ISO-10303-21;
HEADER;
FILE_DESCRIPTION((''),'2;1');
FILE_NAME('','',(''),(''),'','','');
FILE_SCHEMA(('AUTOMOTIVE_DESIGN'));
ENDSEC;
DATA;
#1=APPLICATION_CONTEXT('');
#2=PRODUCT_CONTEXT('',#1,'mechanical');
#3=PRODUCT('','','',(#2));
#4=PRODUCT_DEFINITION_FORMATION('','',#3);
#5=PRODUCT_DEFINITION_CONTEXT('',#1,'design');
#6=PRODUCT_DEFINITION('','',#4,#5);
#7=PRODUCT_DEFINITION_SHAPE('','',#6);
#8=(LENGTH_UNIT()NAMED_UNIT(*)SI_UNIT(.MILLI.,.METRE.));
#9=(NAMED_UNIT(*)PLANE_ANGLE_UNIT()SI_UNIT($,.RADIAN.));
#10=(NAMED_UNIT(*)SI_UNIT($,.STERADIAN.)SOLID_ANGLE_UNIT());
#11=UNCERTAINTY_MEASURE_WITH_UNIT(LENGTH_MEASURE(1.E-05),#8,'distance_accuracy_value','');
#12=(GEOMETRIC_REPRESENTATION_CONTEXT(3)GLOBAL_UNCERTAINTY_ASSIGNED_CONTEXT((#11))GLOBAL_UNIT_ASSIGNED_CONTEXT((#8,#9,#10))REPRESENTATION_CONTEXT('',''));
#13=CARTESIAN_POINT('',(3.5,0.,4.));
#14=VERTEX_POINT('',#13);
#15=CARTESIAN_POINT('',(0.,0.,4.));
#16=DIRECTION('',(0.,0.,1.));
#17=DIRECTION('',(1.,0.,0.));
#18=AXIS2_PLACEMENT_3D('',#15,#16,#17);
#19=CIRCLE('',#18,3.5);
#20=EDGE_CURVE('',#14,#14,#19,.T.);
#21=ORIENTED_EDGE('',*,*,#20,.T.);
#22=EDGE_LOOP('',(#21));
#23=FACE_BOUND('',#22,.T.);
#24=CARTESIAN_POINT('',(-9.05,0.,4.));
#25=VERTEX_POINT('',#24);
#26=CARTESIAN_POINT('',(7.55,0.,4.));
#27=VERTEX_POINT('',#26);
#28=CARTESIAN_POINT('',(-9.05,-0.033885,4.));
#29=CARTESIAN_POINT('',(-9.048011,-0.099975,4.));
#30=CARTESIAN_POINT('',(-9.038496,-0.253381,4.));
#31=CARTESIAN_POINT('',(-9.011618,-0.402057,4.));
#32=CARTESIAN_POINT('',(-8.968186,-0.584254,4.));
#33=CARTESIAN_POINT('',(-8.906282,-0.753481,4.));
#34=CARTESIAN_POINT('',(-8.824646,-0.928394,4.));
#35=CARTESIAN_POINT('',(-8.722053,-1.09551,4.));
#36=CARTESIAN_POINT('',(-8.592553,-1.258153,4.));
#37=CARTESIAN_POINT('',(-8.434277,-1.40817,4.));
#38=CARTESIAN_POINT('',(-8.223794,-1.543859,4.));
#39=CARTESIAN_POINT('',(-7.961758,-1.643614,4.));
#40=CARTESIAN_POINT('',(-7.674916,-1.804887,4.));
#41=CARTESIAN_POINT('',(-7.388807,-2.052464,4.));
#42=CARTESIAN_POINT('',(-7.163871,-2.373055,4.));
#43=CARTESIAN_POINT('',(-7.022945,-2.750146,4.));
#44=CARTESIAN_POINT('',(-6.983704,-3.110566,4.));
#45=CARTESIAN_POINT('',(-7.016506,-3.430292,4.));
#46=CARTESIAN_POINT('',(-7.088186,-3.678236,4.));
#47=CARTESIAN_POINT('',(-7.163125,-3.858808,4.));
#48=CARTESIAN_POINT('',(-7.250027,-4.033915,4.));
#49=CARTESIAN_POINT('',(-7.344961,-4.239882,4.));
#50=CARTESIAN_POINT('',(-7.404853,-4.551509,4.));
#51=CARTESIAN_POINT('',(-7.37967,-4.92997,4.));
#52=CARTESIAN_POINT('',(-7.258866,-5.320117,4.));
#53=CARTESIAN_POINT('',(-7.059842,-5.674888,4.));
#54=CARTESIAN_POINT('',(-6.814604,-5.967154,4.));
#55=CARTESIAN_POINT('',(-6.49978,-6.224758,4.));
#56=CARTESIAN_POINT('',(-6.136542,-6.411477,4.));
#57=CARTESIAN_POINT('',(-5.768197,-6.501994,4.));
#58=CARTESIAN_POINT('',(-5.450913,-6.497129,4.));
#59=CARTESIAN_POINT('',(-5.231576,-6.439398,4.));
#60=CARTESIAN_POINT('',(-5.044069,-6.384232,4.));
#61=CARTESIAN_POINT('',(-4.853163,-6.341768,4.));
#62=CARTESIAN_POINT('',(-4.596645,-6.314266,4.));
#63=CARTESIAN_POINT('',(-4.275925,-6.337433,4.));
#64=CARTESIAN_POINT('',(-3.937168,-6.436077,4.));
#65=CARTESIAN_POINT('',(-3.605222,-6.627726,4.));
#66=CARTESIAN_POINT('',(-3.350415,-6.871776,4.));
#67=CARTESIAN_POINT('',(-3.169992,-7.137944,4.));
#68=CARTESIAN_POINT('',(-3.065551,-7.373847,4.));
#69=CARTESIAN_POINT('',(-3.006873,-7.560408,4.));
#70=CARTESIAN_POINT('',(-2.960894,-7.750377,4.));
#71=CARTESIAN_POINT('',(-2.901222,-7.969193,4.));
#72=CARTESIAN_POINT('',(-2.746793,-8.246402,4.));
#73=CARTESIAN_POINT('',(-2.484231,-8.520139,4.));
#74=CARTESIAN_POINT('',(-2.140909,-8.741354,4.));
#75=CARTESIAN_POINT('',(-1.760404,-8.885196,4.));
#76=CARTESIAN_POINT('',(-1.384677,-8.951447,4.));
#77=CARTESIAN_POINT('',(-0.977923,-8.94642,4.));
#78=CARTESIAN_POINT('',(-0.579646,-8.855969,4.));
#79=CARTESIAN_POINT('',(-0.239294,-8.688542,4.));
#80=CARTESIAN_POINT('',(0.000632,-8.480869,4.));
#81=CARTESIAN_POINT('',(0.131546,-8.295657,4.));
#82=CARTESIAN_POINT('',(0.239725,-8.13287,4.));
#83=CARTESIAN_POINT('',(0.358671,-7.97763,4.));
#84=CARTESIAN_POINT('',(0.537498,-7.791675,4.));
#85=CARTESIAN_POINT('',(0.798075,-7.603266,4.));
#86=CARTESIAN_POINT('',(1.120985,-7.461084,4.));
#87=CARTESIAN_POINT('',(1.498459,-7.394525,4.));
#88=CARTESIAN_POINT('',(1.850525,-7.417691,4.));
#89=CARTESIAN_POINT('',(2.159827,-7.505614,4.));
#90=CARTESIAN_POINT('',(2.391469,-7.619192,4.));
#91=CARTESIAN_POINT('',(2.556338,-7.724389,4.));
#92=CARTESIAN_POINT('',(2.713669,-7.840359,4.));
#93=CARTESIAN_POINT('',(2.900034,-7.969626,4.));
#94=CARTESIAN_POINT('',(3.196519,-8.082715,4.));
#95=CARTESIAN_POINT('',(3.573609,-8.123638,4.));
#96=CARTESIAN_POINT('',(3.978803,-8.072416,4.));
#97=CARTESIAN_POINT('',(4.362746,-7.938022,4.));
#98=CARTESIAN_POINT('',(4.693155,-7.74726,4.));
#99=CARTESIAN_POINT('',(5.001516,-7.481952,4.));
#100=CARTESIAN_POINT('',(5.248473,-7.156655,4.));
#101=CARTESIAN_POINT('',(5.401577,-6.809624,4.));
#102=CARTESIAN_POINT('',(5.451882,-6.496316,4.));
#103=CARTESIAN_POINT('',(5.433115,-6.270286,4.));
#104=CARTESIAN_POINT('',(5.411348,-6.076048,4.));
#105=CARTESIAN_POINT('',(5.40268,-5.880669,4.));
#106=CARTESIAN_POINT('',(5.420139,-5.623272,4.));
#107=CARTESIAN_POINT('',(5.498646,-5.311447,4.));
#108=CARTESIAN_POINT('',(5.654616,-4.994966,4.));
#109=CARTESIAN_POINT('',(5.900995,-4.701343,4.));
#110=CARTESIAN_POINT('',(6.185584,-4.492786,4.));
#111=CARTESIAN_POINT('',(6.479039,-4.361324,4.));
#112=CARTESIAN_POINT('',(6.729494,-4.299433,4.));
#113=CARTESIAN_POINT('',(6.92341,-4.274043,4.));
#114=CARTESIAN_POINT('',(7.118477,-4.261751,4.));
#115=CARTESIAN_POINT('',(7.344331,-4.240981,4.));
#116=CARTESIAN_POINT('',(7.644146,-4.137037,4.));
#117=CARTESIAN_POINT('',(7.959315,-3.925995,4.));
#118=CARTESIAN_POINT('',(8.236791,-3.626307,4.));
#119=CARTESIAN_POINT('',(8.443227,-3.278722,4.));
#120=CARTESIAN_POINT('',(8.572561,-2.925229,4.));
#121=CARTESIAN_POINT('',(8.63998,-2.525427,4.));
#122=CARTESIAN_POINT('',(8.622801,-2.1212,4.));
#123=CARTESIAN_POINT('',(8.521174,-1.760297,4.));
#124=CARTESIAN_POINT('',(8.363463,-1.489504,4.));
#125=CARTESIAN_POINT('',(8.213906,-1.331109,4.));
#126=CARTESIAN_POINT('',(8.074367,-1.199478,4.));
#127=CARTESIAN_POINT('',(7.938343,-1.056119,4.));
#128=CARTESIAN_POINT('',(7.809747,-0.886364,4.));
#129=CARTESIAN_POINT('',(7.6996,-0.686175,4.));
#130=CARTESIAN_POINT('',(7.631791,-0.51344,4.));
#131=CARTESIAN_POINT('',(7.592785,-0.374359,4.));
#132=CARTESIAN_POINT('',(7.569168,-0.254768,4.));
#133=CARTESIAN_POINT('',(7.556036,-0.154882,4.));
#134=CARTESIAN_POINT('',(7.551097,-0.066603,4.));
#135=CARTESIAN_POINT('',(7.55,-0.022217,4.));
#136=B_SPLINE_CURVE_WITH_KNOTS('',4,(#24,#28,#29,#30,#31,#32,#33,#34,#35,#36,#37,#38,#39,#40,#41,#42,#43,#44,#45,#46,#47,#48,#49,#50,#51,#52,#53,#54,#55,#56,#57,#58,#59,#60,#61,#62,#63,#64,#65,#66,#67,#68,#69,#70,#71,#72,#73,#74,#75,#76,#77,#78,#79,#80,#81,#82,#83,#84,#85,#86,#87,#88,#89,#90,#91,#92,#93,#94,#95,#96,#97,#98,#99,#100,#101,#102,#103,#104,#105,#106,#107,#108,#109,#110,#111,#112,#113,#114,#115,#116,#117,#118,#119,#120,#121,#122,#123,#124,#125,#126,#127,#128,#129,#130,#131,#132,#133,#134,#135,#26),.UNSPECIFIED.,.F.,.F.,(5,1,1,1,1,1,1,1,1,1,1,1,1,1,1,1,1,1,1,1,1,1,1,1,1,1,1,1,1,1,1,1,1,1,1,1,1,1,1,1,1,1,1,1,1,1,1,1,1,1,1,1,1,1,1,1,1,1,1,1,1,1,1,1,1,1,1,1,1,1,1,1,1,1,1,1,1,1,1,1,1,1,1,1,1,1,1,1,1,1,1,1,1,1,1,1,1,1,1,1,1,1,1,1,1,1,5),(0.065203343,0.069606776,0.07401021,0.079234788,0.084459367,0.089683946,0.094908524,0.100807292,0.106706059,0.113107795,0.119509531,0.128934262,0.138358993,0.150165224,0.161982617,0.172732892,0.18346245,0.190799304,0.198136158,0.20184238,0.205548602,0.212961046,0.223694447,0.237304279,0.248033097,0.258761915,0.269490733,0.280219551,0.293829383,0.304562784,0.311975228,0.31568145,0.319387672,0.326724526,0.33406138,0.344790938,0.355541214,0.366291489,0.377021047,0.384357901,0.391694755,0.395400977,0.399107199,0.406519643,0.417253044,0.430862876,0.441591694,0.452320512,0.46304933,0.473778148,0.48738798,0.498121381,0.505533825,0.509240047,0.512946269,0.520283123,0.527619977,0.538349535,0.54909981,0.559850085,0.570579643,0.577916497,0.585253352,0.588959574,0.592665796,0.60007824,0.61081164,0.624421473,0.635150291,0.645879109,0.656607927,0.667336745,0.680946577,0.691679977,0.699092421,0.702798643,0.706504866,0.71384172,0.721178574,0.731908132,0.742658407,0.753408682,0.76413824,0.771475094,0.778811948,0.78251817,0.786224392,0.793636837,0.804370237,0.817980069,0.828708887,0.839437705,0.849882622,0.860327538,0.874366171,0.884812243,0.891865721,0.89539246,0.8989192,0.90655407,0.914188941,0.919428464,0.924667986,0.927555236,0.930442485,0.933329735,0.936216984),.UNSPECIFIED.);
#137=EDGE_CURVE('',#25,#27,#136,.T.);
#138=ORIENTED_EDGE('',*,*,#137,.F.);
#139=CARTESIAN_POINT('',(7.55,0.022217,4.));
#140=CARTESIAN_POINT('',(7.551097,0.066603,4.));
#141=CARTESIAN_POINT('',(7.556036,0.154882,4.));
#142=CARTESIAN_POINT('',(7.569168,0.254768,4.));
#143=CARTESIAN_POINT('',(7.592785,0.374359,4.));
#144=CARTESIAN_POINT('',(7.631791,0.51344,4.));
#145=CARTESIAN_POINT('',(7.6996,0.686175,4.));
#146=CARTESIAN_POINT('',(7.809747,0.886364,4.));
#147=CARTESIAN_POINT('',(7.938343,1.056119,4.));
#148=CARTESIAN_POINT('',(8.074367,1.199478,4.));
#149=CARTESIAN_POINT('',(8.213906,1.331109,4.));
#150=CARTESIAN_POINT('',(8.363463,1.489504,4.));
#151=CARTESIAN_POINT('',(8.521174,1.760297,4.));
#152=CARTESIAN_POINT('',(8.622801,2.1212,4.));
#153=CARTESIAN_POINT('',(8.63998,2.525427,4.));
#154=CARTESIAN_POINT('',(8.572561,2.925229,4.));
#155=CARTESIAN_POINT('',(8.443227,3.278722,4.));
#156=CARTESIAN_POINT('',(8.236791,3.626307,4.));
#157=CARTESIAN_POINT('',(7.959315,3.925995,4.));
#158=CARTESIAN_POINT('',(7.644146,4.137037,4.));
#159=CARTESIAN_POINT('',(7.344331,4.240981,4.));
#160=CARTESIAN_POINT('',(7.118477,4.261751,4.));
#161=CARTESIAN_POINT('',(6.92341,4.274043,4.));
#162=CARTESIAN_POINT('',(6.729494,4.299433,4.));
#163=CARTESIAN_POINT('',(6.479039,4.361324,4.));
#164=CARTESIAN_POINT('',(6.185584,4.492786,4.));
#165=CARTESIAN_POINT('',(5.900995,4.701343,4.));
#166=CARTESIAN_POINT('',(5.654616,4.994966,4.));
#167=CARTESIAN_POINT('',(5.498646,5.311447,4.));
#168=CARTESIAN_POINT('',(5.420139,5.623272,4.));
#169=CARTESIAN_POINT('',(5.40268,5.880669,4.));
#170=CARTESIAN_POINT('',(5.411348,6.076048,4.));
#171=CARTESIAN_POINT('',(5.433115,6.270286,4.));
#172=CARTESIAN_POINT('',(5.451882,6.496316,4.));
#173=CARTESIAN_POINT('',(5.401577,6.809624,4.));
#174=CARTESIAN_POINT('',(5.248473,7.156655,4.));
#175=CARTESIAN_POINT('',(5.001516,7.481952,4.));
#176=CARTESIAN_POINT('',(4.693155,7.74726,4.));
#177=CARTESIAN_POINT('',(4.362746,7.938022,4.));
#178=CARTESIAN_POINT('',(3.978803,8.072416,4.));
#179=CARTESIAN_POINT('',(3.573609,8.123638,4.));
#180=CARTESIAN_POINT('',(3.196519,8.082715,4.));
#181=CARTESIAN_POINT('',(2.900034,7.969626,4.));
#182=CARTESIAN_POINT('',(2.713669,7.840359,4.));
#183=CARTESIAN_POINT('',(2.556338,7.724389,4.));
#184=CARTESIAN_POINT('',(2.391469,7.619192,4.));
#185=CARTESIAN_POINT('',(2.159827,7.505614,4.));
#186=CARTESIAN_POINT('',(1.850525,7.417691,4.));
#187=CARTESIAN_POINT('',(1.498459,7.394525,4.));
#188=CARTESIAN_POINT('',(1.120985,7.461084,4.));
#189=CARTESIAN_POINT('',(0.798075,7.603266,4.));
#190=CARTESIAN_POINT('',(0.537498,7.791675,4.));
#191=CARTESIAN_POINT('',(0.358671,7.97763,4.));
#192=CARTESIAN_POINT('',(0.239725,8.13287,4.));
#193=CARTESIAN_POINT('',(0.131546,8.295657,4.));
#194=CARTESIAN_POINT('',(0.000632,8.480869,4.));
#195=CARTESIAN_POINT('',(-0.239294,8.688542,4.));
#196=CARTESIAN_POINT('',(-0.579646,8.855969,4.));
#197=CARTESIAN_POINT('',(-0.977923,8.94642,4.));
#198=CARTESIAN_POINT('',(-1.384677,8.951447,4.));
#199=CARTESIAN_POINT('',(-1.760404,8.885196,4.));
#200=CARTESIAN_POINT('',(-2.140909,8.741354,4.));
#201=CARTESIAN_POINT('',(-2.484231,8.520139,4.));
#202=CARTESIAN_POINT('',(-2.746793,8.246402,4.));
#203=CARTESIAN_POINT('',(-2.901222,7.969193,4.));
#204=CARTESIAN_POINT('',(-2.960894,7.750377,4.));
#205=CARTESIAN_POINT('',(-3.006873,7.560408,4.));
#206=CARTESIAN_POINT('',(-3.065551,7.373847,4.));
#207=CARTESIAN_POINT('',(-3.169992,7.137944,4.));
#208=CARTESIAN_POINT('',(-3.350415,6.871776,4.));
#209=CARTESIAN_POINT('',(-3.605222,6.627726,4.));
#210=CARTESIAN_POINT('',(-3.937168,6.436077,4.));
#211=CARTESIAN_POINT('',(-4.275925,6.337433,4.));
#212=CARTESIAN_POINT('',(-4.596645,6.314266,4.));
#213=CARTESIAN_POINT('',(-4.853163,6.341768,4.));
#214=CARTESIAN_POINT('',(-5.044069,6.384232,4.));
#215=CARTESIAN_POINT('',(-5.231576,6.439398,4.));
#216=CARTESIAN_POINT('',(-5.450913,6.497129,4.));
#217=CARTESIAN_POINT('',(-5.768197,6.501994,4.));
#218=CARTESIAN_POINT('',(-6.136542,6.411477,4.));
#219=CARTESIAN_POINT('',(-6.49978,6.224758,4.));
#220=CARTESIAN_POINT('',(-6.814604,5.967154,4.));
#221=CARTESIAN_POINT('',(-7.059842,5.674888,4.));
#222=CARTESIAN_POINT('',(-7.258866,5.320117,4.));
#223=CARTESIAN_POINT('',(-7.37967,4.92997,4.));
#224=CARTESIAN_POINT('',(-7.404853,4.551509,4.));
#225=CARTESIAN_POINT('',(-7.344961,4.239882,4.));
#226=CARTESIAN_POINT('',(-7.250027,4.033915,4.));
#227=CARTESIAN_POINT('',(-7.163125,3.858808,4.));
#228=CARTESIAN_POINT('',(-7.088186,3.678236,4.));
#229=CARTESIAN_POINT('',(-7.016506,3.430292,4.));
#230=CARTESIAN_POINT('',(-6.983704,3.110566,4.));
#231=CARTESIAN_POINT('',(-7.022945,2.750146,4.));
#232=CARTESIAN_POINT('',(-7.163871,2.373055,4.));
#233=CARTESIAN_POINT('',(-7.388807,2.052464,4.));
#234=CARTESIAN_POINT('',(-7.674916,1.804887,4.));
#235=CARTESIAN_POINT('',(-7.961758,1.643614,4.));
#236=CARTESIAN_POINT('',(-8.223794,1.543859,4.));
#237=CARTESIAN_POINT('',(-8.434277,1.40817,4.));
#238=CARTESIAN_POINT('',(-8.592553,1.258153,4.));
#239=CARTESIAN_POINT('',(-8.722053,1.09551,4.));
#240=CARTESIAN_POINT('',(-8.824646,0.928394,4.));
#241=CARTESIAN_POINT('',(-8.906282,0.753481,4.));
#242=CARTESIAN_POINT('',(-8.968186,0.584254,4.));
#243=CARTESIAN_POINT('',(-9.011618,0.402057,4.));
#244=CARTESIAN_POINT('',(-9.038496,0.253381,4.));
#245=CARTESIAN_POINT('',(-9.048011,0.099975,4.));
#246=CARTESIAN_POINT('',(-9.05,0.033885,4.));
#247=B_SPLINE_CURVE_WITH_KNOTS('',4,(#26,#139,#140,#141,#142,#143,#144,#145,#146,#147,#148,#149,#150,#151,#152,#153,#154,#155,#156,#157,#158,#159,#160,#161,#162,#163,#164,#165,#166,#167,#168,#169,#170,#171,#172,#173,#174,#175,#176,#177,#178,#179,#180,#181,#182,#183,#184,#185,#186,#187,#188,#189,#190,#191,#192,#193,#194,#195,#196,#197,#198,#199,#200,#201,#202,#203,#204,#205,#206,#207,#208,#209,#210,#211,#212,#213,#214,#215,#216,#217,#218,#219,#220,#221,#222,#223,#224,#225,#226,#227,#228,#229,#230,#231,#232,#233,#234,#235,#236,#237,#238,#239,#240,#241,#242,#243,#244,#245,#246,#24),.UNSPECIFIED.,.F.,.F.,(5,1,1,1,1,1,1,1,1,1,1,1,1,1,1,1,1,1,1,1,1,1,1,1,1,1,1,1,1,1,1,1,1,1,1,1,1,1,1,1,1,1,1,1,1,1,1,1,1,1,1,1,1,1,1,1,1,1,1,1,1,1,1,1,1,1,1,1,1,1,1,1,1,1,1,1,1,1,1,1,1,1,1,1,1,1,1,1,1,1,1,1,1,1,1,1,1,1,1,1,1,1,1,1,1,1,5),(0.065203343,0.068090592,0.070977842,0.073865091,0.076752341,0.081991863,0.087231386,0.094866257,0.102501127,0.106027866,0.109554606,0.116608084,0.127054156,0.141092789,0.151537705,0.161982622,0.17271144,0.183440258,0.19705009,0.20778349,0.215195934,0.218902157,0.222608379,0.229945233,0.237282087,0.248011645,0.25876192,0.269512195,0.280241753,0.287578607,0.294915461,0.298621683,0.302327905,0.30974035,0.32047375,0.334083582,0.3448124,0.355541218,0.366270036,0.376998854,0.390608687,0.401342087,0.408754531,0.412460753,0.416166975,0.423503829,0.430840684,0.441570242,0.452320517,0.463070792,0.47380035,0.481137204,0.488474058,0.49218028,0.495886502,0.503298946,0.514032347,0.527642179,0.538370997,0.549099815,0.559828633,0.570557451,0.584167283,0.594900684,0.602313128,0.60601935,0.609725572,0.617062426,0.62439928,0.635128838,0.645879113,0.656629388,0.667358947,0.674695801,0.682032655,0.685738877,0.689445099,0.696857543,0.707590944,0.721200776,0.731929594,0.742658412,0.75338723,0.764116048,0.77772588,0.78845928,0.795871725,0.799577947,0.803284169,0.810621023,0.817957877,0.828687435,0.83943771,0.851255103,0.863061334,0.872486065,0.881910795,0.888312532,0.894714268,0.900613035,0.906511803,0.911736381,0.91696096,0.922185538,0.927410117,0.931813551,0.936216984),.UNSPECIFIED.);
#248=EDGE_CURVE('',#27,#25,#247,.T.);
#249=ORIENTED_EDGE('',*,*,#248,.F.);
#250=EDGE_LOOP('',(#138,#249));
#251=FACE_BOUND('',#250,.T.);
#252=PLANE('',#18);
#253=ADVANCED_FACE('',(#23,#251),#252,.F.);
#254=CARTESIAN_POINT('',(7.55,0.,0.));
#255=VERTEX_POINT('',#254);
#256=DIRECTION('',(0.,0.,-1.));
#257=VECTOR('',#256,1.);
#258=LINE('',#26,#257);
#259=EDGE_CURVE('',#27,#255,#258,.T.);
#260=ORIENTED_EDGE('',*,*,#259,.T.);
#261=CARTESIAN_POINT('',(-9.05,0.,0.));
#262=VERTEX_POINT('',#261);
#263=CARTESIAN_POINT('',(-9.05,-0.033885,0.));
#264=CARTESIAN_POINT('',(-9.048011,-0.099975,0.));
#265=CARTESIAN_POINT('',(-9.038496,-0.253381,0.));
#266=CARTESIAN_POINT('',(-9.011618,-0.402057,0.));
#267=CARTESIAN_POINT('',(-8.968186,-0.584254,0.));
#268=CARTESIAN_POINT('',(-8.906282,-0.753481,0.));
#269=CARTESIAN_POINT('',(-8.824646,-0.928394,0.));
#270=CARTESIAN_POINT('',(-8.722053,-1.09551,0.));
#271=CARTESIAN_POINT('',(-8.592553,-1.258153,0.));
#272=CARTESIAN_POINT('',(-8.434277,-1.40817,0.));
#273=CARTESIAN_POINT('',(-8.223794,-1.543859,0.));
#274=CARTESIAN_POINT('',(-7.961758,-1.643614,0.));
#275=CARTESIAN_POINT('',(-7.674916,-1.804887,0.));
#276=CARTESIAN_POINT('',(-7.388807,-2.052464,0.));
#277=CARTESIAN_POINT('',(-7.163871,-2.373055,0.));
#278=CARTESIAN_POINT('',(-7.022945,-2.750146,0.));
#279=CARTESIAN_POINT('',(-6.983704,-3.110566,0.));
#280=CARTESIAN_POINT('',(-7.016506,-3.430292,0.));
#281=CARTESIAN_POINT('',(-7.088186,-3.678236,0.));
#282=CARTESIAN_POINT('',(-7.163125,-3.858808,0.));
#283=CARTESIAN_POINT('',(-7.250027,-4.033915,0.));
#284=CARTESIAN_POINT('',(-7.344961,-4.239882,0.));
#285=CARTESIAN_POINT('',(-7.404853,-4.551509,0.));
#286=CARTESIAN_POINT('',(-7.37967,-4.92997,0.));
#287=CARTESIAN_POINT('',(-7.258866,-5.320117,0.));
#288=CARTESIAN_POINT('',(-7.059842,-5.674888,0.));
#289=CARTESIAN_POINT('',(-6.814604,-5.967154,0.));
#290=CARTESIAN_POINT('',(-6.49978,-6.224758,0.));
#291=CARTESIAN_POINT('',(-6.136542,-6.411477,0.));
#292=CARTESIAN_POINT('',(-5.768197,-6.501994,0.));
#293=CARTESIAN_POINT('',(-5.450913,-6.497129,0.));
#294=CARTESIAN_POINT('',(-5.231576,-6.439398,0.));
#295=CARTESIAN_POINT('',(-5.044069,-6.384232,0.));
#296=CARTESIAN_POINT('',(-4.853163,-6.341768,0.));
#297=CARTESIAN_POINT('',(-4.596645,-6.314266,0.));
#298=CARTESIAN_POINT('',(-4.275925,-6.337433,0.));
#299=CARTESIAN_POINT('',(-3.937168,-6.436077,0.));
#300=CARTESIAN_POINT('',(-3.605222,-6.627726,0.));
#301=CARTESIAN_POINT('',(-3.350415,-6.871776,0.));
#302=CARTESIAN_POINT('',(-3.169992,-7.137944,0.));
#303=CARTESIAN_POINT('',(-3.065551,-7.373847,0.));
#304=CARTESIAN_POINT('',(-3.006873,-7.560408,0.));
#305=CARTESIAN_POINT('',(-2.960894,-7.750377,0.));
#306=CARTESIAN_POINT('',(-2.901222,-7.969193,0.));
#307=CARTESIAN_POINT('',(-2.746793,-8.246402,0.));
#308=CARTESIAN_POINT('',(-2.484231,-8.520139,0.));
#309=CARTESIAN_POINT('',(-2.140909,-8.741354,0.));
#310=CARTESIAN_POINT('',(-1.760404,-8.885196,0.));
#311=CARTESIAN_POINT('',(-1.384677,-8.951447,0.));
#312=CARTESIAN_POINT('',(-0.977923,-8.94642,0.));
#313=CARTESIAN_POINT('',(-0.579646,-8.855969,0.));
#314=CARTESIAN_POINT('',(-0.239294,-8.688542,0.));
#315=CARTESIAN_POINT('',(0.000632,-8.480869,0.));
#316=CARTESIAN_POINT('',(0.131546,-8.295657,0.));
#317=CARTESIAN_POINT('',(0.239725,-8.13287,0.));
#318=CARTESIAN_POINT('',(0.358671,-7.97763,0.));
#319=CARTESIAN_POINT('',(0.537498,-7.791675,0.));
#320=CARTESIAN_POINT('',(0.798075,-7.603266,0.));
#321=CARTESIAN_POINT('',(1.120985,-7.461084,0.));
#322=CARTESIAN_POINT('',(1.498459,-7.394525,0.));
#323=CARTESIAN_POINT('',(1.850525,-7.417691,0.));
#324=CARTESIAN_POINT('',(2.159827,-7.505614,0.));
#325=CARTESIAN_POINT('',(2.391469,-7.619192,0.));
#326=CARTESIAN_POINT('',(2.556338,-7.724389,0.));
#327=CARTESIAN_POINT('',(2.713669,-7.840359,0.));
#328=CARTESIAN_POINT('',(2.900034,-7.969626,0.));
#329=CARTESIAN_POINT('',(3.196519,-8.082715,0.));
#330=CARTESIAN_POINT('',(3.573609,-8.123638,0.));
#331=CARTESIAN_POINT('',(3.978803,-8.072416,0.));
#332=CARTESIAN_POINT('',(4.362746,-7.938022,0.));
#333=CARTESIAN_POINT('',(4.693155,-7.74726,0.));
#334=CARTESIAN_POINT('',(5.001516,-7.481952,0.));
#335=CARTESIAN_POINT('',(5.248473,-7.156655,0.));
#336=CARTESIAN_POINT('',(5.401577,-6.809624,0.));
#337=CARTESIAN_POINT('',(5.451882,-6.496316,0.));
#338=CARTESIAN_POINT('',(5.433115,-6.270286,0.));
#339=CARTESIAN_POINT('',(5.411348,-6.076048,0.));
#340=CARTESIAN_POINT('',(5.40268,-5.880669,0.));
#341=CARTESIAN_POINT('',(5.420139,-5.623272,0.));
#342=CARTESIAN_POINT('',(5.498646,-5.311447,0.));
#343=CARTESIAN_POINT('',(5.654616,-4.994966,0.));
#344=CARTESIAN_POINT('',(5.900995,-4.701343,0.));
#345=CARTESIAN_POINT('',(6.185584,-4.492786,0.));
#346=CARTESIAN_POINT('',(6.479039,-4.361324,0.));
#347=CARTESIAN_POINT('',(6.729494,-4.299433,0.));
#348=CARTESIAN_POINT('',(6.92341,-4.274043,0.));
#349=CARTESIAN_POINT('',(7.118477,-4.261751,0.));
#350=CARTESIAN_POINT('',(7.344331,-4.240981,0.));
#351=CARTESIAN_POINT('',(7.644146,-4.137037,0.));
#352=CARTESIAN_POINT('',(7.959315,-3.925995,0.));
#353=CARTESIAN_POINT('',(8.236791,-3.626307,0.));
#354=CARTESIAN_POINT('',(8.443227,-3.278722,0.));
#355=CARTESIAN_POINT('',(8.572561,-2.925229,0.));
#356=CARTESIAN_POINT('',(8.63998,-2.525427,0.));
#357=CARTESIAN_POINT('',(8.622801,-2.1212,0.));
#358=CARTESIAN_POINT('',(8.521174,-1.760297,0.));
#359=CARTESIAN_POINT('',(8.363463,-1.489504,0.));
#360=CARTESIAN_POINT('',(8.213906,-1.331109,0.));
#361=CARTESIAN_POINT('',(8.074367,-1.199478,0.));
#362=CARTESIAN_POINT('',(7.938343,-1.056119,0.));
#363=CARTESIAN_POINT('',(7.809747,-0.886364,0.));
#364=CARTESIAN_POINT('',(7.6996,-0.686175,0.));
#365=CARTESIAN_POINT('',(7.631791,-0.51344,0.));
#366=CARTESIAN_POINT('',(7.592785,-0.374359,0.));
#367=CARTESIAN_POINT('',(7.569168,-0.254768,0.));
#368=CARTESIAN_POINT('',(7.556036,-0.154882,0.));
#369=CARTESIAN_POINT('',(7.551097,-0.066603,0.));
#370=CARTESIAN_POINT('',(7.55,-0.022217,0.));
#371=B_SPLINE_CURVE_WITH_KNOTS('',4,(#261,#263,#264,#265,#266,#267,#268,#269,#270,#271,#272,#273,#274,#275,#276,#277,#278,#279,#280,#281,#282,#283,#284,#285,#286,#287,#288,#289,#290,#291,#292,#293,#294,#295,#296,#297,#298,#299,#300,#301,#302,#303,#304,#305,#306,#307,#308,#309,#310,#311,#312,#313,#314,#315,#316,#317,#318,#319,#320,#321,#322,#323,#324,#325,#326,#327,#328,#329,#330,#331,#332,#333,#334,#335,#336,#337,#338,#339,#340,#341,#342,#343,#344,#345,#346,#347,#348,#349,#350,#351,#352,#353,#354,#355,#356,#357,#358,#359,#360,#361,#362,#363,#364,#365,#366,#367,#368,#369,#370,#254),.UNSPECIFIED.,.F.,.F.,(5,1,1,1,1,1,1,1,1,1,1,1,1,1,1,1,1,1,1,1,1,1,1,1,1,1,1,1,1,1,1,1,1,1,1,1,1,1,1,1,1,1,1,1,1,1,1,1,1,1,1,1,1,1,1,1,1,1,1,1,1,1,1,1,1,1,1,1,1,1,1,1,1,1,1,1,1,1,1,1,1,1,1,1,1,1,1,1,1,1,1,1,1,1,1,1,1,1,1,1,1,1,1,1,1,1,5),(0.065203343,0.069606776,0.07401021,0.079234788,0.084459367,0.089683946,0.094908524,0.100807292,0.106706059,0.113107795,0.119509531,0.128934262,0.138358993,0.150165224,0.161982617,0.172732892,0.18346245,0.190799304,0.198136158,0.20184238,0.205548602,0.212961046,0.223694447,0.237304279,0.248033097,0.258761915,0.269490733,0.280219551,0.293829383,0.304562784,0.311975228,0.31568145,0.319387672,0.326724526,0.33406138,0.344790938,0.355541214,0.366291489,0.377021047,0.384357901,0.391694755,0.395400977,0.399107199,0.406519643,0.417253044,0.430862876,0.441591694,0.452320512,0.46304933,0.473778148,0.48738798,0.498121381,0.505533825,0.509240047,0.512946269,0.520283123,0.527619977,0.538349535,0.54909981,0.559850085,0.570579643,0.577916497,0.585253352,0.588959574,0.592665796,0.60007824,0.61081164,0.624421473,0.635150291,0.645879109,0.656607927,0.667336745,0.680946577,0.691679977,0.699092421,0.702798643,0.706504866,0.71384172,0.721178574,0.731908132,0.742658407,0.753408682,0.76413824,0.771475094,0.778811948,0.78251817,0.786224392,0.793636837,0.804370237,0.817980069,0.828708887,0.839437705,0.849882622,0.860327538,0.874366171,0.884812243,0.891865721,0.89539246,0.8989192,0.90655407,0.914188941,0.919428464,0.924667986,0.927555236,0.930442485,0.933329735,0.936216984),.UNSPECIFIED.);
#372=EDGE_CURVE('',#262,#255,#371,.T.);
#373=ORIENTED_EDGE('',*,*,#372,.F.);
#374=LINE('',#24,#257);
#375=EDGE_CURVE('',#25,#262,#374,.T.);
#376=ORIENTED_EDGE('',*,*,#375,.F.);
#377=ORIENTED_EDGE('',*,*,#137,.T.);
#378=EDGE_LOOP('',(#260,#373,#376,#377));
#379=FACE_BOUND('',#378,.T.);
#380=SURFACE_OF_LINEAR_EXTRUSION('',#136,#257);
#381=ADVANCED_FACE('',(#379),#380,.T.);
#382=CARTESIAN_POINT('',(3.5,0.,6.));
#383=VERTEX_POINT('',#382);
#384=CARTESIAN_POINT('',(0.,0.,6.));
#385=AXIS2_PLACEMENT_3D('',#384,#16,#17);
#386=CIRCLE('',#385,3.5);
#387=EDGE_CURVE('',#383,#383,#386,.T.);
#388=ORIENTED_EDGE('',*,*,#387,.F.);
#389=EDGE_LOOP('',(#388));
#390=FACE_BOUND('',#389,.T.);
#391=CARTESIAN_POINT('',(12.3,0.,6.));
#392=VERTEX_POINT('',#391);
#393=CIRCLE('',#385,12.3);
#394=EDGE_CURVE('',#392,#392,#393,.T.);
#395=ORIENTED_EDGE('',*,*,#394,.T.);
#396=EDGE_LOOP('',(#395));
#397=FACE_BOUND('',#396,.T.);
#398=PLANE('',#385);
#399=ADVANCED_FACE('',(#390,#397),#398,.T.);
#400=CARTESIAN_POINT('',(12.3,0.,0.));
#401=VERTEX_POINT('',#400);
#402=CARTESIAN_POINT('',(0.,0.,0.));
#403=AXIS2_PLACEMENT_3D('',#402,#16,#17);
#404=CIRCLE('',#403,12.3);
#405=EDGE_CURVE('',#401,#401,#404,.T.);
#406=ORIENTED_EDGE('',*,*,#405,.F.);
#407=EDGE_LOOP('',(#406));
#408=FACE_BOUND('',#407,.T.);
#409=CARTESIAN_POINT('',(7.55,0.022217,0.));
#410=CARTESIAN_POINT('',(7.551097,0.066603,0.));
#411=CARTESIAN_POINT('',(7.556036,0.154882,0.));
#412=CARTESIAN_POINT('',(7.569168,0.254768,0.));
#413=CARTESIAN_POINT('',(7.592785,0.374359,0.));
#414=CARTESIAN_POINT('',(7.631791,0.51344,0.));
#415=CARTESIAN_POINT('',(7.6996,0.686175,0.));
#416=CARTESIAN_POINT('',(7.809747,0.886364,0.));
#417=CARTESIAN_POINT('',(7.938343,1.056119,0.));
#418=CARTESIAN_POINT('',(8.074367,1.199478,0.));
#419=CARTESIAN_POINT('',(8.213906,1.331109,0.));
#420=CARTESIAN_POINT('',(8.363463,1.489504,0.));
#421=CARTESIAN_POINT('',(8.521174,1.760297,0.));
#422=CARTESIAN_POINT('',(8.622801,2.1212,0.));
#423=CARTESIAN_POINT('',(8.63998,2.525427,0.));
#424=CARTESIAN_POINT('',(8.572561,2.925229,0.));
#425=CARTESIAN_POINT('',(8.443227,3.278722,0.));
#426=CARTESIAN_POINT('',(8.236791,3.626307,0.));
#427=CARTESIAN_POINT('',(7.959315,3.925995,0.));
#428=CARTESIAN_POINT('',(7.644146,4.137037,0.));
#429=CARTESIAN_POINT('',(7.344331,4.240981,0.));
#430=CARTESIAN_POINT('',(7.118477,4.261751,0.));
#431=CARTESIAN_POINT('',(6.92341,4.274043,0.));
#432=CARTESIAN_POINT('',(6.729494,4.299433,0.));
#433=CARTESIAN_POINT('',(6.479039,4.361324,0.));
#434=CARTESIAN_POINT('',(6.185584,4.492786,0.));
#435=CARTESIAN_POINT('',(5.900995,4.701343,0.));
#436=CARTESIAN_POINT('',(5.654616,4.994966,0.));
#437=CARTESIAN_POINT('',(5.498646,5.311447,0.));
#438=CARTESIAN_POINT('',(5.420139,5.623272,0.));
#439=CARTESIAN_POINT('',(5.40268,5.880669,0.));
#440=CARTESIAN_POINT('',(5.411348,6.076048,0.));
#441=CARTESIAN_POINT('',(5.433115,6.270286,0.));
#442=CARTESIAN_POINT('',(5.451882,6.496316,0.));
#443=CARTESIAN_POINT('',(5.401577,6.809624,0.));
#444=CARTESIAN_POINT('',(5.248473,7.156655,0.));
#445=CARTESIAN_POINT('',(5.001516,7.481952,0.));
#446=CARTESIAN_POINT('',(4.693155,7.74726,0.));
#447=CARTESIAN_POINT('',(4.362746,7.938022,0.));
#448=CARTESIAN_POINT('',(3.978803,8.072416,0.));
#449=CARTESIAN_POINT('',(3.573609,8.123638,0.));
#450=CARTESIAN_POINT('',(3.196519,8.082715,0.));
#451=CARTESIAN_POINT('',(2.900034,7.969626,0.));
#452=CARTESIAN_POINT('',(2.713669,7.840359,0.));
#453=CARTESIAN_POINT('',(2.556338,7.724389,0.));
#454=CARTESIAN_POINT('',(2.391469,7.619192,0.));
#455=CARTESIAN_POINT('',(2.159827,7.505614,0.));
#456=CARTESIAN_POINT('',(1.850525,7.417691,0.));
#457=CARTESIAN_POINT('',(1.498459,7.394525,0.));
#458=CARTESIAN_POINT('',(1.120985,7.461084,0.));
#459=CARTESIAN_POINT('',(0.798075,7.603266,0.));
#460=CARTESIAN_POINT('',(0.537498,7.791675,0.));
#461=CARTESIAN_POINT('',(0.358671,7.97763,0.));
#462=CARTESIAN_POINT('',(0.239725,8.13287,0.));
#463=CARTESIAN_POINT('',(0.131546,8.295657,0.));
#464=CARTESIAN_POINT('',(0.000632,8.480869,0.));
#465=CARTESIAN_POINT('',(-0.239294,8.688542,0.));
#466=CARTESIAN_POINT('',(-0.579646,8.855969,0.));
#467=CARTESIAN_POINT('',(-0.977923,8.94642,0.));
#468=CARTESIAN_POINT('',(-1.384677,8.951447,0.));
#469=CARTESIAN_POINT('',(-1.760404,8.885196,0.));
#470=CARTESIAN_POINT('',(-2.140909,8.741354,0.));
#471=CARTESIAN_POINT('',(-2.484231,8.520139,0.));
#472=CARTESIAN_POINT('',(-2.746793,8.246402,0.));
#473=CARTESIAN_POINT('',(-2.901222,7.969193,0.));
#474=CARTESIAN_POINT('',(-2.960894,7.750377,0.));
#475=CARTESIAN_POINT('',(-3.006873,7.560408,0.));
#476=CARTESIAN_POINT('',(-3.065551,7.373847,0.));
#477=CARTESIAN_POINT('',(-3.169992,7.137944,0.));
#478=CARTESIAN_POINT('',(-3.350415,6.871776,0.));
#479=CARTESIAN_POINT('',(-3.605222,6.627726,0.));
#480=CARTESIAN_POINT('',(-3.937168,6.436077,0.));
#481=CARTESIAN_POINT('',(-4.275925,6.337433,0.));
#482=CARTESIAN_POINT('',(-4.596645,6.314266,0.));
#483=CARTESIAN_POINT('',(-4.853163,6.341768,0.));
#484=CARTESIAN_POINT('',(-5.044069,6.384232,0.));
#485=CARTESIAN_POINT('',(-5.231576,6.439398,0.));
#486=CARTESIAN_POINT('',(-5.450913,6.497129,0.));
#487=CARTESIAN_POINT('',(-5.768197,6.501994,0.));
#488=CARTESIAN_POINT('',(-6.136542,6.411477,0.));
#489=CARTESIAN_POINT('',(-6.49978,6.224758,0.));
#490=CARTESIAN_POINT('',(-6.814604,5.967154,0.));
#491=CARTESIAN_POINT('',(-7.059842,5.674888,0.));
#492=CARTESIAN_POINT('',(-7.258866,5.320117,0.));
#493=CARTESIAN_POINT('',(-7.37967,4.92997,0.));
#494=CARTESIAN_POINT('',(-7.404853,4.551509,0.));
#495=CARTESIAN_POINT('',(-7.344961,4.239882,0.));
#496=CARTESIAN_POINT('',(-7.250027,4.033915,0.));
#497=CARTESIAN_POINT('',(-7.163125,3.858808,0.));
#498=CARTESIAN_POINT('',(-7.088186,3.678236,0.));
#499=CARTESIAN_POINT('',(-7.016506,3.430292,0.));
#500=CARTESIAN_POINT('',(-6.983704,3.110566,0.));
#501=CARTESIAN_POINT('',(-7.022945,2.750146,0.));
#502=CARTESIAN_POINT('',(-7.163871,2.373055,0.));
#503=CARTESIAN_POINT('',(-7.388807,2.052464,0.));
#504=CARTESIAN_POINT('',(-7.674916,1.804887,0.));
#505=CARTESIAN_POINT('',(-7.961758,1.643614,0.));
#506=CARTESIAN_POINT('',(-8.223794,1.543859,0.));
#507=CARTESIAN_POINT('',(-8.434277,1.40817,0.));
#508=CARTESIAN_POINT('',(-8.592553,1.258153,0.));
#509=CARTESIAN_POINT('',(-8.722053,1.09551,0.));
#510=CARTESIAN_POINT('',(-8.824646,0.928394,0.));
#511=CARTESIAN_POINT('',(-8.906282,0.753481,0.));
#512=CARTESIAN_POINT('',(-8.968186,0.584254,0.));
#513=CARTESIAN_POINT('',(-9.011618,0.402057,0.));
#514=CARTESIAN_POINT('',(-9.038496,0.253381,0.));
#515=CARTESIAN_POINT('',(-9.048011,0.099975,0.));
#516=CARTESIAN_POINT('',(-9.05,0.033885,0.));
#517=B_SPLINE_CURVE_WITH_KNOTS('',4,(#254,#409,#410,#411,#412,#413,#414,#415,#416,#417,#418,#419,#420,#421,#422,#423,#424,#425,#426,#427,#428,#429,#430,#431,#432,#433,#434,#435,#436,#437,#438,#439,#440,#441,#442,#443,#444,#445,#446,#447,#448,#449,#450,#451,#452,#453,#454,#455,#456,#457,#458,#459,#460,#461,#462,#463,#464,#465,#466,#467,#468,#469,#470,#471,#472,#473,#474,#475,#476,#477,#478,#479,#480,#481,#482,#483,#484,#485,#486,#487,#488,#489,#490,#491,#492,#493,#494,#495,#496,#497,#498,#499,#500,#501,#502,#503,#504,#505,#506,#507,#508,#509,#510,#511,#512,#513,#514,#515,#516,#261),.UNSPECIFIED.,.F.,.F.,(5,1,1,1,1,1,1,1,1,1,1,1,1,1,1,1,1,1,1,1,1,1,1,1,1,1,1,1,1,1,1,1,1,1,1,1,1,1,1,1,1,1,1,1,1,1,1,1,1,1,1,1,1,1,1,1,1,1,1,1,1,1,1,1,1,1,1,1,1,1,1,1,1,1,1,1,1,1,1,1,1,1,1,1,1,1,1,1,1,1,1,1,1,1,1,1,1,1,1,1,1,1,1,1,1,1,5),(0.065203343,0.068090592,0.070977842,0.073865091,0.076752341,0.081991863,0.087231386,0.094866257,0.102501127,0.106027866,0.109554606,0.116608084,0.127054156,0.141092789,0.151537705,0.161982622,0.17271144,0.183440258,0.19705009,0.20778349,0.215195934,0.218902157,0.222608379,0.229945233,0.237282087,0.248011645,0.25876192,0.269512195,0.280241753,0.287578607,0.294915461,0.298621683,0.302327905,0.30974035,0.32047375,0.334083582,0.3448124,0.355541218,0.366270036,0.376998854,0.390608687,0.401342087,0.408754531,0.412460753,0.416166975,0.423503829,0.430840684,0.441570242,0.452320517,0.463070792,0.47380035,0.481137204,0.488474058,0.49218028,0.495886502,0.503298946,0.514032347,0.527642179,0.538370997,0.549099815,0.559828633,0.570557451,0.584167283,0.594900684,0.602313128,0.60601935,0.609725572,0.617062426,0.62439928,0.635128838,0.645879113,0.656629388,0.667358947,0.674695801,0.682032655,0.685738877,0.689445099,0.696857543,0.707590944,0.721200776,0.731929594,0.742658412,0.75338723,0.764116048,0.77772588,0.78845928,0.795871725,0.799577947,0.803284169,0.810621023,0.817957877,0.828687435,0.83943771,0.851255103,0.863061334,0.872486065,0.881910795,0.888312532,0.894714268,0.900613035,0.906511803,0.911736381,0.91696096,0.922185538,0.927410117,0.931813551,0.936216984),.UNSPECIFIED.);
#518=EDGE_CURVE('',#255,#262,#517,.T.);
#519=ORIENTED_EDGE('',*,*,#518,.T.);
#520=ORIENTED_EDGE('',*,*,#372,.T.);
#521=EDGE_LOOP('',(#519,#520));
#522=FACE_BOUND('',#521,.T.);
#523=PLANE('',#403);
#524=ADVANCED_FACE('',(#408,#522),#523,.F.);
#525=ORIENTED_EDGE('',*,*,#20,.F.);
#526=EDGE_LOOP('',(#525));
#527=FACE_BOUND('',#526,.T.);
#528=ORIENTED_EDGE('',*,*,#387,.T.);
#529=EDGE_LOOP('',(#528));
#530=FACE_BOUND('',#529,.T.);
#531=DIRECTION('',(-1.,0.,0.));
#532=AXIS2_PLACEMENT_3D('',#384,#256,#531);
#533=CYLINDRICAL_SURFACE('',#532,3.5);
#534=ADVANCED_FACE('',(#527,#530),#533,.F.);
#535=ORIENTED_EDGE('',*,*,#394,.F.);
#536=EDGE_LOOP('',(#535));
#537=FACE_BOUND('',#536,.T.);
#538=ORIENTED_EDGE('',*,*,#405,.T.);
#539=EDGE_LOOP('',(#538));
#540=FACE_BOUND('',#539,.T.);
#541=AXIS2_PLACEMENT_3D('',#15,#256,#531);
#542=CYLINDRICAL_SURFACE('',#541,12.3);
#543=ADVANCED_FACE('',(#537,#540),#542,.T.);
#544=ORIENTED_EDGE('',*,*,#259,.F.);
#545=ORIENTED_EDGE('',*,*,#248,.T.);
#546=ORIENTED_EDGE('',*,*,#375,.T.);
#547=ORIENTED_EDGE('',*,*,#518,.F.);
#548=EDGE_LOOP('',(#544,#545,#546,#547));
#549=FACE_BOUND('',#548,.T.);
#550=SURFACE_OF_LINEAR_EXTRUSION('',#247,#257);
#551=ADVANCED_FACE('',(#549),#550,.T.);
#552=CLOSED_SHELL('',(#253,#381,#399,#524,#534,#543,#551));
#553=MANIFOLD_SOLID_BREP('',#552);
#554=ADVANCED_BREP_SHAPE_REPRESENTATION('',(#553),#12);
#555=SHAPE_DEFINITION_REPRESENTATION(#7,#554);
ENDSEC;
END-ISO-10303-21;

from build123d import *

# Parameters (mm, degrees)
ESQUISSE1_R        = 12.3
BOSS_EXTRU_4_DEPTH = 4
ESQUISSE2_R        = 12.3
ESQUISSE2_R_2      = 3.5
BOSS_EXTRU_5_DEPTH = 2


with BuildPart() as part:
    # Esquisse1 → Boss.-Extru.4 (new body)
    with BuildSketch(Plane.XY):
        Circle(ESQUISSE1_R)
        with BuildLine():
            add(Edge.make_bspline(
                [(7.55, 0), (7.55, -0.022217466), (7.551097377, -0.06660344), (7.556035758, -0.154882158), (7.569167839, -0.254768485), (7.592785481, -0.37435883), (7.631791074, -0.513440089), (7.699599827, -0.686174715), (7.809747013, -0.886363911), (7.938343435, -1.056119454), (8.074367238, -1.199477561), (8.213906261, -1.331108701), (8.363463314, -1.489503642), (8.52117397, -1.760296749), (8.622800912, -2.12120006), (8.639980023, -2.525427279), (8.572560565, -2.925228783), (8.443226846, -3.278721943), (8.236791431, -3.626307028), (7.959315156, -3.92599456), (7.644146129, -4.137037381), (7.344330807, -4.240981402), (7.118477365, -4.261750803), (6.923409824, -4.274042572), (6.729494296, -4.299433334), (6.479039378, -4.361323849), (6.185584384, -4.492786475), (5.900995311, -4.701343321), (5.654616476, -4.994966266), (5.498646357, -5.311447235), (5.420139001, -5.62327233), (5.402679566, -5.880669299), (5.411348006, -6.076048137), (5.43311542, -6.27028614), (5.451881775, -6.496315743), (5.401577193, -6.809624445), (5.248472533, -7.156654923), (5.00151571, -7.481952038), (4.693155209, -7.747259736), (4.362746137, -7.938021502), (3.97880268, -8.072415681), (3.573608703, -8.123638006), (3.196519164, -8.082715292), (2.900033577, -7.969625987), (2.713669376, -7.840359047), (2.556338037, -7.724388907), (2.391469223, -7.619192408), (2.159827187, -7.505614223), (1.850525062, -7.417691062), (1.498459434, -7.394524629), (1.120985101, -7.461083539), (0.798075015, -7.603266401), (0.537497583, -7.791674704), (0.358671298, -7.977629529), (0.239724611, -8.132870358), (0.131545637, -8.295657129), (0.00063247, -8.48086863), (-0.239294028, -8.688541859), (-0.579645892, -8.855968849), (-0.97792275, -8.946420111), (-1.384677099, -8.951447289), (-1.760404432, -8.885196422), (-2.140909097, -8.74135424), (-2.484230767, -8.520139149), (-2.7467935, -8.246402048), (-2.901222232, -7.969193352), (-2.960894305, -7.750376531), (-3.006872934, -7.560407615), (-3.065550767, -7.373846791), (-3.169992211, -7.137944222), (-3.350415467, -6.871775601), (-3.605222288, -6.627725658), (-3.937167647, -6.43607692), (-4.275924503, -6.337432703), (-4.596644926, -6.314265903), (-4.853163255, -6.341768224), (-5.044068602, -6.384232176), (-5.231575792, -6.439397912), (-5.450912809, -6.497128898), (-5.76819685, -6.501993852), (-6.136541661, -6.411476718), (-6.499780125, -6.224758472), (-6.814603855, -5.967153659), (-7.059841778, -5.674888364), (-7.258866454, -5.320117434), (-7.379669823, -4.929970109), (-7.404852791, -4.55150919), (-7.344961354, -4.239881617), (-7.250026908, -4.033914986), (-7.163124623, -3.858808158), (-7.088186053, -3.678236185), (-7.016506455, -3.430291501), (-6.983703661, -3.110565989), (-7.022944536, -2.75014551), (-7.163870523, -2.373055201), (-7.388807145, -2.052464473), (-7.674915576, -1.804887015), (-7.961757696, -1.643613759), (-8.223794342, -1.543858612), (-8.434276899, -1.408170219), (-8.59255306, -1.258153379), (-8.722053282, -1.095509906), (-8.824645601, -0.92839368), (-8.906281505, -0.753480862), (-8.96818609, -0.584253866), (-9.011618341, -0.402056601), (-9.038496186, -0.253381349), (-9.048010833, -0.099975464), (-9.05, -0.033884546), (-9.05, 0)],
                knots=[0.065203343, 0.065203343, 0.065203343, 0.065203343, 0.065203343, 0.068090592, 0.070977842, 0.073865091, 0.076752341, 0.081991863, 0.087231386, 0.094866257, 0.102501127, 0.106027866, 0.109554606, 0.116608084, 0.127054156, 0.141092789, 0.151537705, 0.161982622, 0.17271144, 0.183440258, 0.19705009, 0.20778349, 0.215195934, 0.218902157, 0.222608379, 0.229945233, 0.237282087, 0.248011645, 0.25876192, 0.269512195, 0.280241753, 0.287578607, 0.294915461, 0.298621683, 0.302327905, 0.30974035, 0.32047375, 0.334083582, 0.3448124, 0.355541218, 0.366270036, 0.376998854, 0.390608687, 0.401342087, 0.408754531, 0.412460753, 0.416166975, 0.423503829, 0.430840684, 0.441570242, 0.452320517, 0.463070792, 0.47380035, 0.481137204, 0.488474058, 0.49218028, 0.495886502, 0.503298946, 0.514032347, 0.527642179, 0.538370997, 0.549099815, 0.559828633, 0.570557451, 0.584167283, 0.594900684, 0.602313128, 0.60601935, 0.609725572, 0.617062426, 0.62439928, 0.635128838, 0.645879113, 0.656629388, 0.667358947, 0.674695801, 0.682032655, 0.685738877, 0.689445099, 0.696857543, 0.707590944, 0.721200776, 0.731929594, 0.742658412, 0.75338723, 0.764116048, 0.77772588, 0.78845928, 0.795871725, 0.799577947, 0.803284169, 0.810621023, 0.817957877, 0.828687435, 0.83943771, 0.851255103, 0.863061334, 0.872486065, 0.881910795, 0.888312532, 0.894714268, 0.900613035, 0.906511803, 0.911736381, 0.91696096, 0.922185538, 0.927410117, 0.931813551, 0.936216984, 0.936216984, 0.936216984, 0.936216984, 0.936216984], degree=4))
            add(Edge.make_bspline(
                [(7.55, 0), (7.55, 0.022217466), (7.551097377, 0.06660344), (7.556035758, 0.154882158), (7.569167839, 0.254768485), (7.592785481, 0.37435883), (7.631791074, 0.513440089), (7.699599827, 0.686174715), (7.809747013, 0.886363911), (7.938343435, 1.056119454), (8.074367238, 1.199477561), (8.213906261, 1.331108701), (8.363463314, 1.489503642), (8.52117397, 1.760296749), (8.622800912, 2.12120006), (8.639980023, 2.525427279), (8.572560565, 2.925228783), (8.443226846, 3.278721943), (8.236791431, 3.626307028), (7.959315156, 3.92599456), (7.644146129, 4.137037381), (7.344330807, 4.240981402), (7.118477365, 4.261750803), (6.923409824, 4.274042572), (6.729494296, 4.299433334), (6.479039378, 4.361323849), (6.185584384, 4.492786475), (5.900995311, 4.701343321), (5.654616476, 4.994966266), (5.498646357, 5.311447235), (5.420139001, 5.62327233), (5.402679566, 5.880669299), (5.411348006, 6.076048137), (5.43311542, 6.27028614), (5.451881775, 6.496315743), (5.401577193, 6.809624445), (5.248472533, 7.156654923), (5.00151571, 7.481952038), (4.693155209, 7.747259736), (4.362746137, 7.938021502), (3.97880268, 8.072415681), (3.573608703, 8.123638006), (3.196519164, 8.082715292), (2.900033577, 7.969625986), (2.713669376, 7.840359047), (2.556338037, 7.724388907), (2.391469223, 7.619192408), (2.159827187, 7.505614223), (1.850525062, 7.417691062), (1.498459434, 7.394524629), (1.120985101, 7.461083539), (0.798075015, 7.603266401), (0.537497583, 7.791674704), (0.358671298, 7.977629529), (0.239724611, 8.132870358), (0.131545637, 8.295657129), (0.00063247, 8.48086863), (-0.239294028, 8.688541859), (-0.579645892, 8.855968849), (-0.97792275, 8.946420111), (-1.384677099, 8.951447289), (-1.760404432, 8.885196422), (-2.140909097, 8.74135424), (-2.484230767, 8.520139149), (-2.7467935, 8.246402048), (-2.901222232, 7.969193352), (-2.960894305, 7.750376531), (-3.006872934, 7.560407615), (-3.065550767, 7.373846791), (-3.169992211, 7.137944222), (-3.350415467, 6.871775601), (-3.605222288, 6.627725658), (-3.937167647, 6.43607692), (-4.275924503, 6.337432703), (-4.596644926, 6.314265903), (-4.853163255, 6.341768224), (-5.044068602, 6.384232176), (-5.231575792, 6.439397912), (-5.450912809, 6.497128898), (-5.76819685, 6.501993852), (-6.136541661, 6.411476718), (-6.499780125, 6.224758472), (-6.814603855, 5.967153659), (-7.059841778, 5.674888364), (-7.258866454, 5.320117434), (-7.379669823, 4.929970109), (-7.404852791, 4.55150919), (-7.344961354, 4.239881617), (-7.250026908, 4.033914986), (-7.163124623, 3.858808158), (-7.088186053, 3.678236185), (-7.016506455, 3.430291501), (-6.983703661, 3.110565989), (-7.022944536, 2.75014551), (-7.163870523, 2.373055201), (-7.388807145, 2.052464473), (-7.674915576, 1.804887015), (-7.961757696, 1.643613759), (-8.223794342, 1.543858612), (-8.434276899, 1.408170219), (-8.59255306, 1.258153379), (-8.722053282, 1.095509906), (-8.824645601, 0.92839368), (-8.906281505, 0.753480862), (-8.96818609, 0.584253866), (-9.011618341, 0.402056601), (-9.038496186, 0.253381349), (-9.048010833, 0.099975464), (-9.05, 0.033884546), (-9.05, 0)],
                knots=[0.065203343, 0.065203343, 0.065203343, 0.065203343, 0.065203343, 0.068090592, 0.070977842, 0.073865091, 0.076752341, 0.081991863, 0.087231386, 0.094866257, 0.102501127, 0.106027866, 0.109554606, 0.116608084, 0.127054156, 0.141092789, 0.151537705, 0.161982622, 0.17271144, 0.183440258, 0.19705009, 0.20778349, 0.215195934, 0.218902157, 0.222608379, 0.229945233, 0.237282087, 0.248011645, 0.25876192, 0.269512195, 0.280241753, 0.287578607, 0.294915461, 0.298621683, 0.302327905, 0.30974035, 0.32047375, 0.334083582, 0.3448124, 0.355541218, 0.366270036, 0.376998854, 0.390608687, 0.401342087, 0.408754531, 0.412460753, 0.416166975, 0.423503829, 0.430840684, 0.441570242, 0.452320517, 0.463070792, 0.47380035, 0.481137204, 0.488474058, 0.49218028, 0.495886502, 0.503298946, 0.514032347, 0.527642179, 0.538370997, 0.549099815, 0.559828633, 0.570557451, 0.584167283, 0.594900684, 0.602313128, 0.60601935, 0.609725572, 0.617062426, 0.62439928, 0.635128838, 0.645879113, 0.656629388, 0.667358947, 0.674695801, 0.682032655, 0.685738877, 0.689445099, 0.696857543, 0.707590944, 0.721200776, 0.731929594, 0.742658412, 0.75338723, 0.764116048, 0.77772588, 0.78845928, 0.795871725, 0.799577947, 0.803284169, 0.810621023, 0.817957877, 0.828687435, 0.83943771, 0.851255103, 0.863061334, 0.872486065, 0.881910795, 0.888312532, 0.894714268, 0.900613035, 0.906511803, 0.911736381, 0.91696096, 0.922185538, 0.927410117, 0.931813551, 0.936216984, 0.936216984, 0.936216984, 0.936216984, 0.936216984], degree=4))
        make_face(mode=Mode.SUBTRACT)
    extrude(amount=BOSS_EXTRU_4_DEPTH)

    # Esquisse2 → Boss.-Extru.5 (add)
    with BuildSketch(Plane.XY.offset(4)):
        Circle(ESQUISSE2_R)
        Circle(ESQUISSE2_R_2, mode=Mode.SUBTRACT)
    extrude(amount=BOSS_EXTRU_5_DEPTH)


solid = part.part
